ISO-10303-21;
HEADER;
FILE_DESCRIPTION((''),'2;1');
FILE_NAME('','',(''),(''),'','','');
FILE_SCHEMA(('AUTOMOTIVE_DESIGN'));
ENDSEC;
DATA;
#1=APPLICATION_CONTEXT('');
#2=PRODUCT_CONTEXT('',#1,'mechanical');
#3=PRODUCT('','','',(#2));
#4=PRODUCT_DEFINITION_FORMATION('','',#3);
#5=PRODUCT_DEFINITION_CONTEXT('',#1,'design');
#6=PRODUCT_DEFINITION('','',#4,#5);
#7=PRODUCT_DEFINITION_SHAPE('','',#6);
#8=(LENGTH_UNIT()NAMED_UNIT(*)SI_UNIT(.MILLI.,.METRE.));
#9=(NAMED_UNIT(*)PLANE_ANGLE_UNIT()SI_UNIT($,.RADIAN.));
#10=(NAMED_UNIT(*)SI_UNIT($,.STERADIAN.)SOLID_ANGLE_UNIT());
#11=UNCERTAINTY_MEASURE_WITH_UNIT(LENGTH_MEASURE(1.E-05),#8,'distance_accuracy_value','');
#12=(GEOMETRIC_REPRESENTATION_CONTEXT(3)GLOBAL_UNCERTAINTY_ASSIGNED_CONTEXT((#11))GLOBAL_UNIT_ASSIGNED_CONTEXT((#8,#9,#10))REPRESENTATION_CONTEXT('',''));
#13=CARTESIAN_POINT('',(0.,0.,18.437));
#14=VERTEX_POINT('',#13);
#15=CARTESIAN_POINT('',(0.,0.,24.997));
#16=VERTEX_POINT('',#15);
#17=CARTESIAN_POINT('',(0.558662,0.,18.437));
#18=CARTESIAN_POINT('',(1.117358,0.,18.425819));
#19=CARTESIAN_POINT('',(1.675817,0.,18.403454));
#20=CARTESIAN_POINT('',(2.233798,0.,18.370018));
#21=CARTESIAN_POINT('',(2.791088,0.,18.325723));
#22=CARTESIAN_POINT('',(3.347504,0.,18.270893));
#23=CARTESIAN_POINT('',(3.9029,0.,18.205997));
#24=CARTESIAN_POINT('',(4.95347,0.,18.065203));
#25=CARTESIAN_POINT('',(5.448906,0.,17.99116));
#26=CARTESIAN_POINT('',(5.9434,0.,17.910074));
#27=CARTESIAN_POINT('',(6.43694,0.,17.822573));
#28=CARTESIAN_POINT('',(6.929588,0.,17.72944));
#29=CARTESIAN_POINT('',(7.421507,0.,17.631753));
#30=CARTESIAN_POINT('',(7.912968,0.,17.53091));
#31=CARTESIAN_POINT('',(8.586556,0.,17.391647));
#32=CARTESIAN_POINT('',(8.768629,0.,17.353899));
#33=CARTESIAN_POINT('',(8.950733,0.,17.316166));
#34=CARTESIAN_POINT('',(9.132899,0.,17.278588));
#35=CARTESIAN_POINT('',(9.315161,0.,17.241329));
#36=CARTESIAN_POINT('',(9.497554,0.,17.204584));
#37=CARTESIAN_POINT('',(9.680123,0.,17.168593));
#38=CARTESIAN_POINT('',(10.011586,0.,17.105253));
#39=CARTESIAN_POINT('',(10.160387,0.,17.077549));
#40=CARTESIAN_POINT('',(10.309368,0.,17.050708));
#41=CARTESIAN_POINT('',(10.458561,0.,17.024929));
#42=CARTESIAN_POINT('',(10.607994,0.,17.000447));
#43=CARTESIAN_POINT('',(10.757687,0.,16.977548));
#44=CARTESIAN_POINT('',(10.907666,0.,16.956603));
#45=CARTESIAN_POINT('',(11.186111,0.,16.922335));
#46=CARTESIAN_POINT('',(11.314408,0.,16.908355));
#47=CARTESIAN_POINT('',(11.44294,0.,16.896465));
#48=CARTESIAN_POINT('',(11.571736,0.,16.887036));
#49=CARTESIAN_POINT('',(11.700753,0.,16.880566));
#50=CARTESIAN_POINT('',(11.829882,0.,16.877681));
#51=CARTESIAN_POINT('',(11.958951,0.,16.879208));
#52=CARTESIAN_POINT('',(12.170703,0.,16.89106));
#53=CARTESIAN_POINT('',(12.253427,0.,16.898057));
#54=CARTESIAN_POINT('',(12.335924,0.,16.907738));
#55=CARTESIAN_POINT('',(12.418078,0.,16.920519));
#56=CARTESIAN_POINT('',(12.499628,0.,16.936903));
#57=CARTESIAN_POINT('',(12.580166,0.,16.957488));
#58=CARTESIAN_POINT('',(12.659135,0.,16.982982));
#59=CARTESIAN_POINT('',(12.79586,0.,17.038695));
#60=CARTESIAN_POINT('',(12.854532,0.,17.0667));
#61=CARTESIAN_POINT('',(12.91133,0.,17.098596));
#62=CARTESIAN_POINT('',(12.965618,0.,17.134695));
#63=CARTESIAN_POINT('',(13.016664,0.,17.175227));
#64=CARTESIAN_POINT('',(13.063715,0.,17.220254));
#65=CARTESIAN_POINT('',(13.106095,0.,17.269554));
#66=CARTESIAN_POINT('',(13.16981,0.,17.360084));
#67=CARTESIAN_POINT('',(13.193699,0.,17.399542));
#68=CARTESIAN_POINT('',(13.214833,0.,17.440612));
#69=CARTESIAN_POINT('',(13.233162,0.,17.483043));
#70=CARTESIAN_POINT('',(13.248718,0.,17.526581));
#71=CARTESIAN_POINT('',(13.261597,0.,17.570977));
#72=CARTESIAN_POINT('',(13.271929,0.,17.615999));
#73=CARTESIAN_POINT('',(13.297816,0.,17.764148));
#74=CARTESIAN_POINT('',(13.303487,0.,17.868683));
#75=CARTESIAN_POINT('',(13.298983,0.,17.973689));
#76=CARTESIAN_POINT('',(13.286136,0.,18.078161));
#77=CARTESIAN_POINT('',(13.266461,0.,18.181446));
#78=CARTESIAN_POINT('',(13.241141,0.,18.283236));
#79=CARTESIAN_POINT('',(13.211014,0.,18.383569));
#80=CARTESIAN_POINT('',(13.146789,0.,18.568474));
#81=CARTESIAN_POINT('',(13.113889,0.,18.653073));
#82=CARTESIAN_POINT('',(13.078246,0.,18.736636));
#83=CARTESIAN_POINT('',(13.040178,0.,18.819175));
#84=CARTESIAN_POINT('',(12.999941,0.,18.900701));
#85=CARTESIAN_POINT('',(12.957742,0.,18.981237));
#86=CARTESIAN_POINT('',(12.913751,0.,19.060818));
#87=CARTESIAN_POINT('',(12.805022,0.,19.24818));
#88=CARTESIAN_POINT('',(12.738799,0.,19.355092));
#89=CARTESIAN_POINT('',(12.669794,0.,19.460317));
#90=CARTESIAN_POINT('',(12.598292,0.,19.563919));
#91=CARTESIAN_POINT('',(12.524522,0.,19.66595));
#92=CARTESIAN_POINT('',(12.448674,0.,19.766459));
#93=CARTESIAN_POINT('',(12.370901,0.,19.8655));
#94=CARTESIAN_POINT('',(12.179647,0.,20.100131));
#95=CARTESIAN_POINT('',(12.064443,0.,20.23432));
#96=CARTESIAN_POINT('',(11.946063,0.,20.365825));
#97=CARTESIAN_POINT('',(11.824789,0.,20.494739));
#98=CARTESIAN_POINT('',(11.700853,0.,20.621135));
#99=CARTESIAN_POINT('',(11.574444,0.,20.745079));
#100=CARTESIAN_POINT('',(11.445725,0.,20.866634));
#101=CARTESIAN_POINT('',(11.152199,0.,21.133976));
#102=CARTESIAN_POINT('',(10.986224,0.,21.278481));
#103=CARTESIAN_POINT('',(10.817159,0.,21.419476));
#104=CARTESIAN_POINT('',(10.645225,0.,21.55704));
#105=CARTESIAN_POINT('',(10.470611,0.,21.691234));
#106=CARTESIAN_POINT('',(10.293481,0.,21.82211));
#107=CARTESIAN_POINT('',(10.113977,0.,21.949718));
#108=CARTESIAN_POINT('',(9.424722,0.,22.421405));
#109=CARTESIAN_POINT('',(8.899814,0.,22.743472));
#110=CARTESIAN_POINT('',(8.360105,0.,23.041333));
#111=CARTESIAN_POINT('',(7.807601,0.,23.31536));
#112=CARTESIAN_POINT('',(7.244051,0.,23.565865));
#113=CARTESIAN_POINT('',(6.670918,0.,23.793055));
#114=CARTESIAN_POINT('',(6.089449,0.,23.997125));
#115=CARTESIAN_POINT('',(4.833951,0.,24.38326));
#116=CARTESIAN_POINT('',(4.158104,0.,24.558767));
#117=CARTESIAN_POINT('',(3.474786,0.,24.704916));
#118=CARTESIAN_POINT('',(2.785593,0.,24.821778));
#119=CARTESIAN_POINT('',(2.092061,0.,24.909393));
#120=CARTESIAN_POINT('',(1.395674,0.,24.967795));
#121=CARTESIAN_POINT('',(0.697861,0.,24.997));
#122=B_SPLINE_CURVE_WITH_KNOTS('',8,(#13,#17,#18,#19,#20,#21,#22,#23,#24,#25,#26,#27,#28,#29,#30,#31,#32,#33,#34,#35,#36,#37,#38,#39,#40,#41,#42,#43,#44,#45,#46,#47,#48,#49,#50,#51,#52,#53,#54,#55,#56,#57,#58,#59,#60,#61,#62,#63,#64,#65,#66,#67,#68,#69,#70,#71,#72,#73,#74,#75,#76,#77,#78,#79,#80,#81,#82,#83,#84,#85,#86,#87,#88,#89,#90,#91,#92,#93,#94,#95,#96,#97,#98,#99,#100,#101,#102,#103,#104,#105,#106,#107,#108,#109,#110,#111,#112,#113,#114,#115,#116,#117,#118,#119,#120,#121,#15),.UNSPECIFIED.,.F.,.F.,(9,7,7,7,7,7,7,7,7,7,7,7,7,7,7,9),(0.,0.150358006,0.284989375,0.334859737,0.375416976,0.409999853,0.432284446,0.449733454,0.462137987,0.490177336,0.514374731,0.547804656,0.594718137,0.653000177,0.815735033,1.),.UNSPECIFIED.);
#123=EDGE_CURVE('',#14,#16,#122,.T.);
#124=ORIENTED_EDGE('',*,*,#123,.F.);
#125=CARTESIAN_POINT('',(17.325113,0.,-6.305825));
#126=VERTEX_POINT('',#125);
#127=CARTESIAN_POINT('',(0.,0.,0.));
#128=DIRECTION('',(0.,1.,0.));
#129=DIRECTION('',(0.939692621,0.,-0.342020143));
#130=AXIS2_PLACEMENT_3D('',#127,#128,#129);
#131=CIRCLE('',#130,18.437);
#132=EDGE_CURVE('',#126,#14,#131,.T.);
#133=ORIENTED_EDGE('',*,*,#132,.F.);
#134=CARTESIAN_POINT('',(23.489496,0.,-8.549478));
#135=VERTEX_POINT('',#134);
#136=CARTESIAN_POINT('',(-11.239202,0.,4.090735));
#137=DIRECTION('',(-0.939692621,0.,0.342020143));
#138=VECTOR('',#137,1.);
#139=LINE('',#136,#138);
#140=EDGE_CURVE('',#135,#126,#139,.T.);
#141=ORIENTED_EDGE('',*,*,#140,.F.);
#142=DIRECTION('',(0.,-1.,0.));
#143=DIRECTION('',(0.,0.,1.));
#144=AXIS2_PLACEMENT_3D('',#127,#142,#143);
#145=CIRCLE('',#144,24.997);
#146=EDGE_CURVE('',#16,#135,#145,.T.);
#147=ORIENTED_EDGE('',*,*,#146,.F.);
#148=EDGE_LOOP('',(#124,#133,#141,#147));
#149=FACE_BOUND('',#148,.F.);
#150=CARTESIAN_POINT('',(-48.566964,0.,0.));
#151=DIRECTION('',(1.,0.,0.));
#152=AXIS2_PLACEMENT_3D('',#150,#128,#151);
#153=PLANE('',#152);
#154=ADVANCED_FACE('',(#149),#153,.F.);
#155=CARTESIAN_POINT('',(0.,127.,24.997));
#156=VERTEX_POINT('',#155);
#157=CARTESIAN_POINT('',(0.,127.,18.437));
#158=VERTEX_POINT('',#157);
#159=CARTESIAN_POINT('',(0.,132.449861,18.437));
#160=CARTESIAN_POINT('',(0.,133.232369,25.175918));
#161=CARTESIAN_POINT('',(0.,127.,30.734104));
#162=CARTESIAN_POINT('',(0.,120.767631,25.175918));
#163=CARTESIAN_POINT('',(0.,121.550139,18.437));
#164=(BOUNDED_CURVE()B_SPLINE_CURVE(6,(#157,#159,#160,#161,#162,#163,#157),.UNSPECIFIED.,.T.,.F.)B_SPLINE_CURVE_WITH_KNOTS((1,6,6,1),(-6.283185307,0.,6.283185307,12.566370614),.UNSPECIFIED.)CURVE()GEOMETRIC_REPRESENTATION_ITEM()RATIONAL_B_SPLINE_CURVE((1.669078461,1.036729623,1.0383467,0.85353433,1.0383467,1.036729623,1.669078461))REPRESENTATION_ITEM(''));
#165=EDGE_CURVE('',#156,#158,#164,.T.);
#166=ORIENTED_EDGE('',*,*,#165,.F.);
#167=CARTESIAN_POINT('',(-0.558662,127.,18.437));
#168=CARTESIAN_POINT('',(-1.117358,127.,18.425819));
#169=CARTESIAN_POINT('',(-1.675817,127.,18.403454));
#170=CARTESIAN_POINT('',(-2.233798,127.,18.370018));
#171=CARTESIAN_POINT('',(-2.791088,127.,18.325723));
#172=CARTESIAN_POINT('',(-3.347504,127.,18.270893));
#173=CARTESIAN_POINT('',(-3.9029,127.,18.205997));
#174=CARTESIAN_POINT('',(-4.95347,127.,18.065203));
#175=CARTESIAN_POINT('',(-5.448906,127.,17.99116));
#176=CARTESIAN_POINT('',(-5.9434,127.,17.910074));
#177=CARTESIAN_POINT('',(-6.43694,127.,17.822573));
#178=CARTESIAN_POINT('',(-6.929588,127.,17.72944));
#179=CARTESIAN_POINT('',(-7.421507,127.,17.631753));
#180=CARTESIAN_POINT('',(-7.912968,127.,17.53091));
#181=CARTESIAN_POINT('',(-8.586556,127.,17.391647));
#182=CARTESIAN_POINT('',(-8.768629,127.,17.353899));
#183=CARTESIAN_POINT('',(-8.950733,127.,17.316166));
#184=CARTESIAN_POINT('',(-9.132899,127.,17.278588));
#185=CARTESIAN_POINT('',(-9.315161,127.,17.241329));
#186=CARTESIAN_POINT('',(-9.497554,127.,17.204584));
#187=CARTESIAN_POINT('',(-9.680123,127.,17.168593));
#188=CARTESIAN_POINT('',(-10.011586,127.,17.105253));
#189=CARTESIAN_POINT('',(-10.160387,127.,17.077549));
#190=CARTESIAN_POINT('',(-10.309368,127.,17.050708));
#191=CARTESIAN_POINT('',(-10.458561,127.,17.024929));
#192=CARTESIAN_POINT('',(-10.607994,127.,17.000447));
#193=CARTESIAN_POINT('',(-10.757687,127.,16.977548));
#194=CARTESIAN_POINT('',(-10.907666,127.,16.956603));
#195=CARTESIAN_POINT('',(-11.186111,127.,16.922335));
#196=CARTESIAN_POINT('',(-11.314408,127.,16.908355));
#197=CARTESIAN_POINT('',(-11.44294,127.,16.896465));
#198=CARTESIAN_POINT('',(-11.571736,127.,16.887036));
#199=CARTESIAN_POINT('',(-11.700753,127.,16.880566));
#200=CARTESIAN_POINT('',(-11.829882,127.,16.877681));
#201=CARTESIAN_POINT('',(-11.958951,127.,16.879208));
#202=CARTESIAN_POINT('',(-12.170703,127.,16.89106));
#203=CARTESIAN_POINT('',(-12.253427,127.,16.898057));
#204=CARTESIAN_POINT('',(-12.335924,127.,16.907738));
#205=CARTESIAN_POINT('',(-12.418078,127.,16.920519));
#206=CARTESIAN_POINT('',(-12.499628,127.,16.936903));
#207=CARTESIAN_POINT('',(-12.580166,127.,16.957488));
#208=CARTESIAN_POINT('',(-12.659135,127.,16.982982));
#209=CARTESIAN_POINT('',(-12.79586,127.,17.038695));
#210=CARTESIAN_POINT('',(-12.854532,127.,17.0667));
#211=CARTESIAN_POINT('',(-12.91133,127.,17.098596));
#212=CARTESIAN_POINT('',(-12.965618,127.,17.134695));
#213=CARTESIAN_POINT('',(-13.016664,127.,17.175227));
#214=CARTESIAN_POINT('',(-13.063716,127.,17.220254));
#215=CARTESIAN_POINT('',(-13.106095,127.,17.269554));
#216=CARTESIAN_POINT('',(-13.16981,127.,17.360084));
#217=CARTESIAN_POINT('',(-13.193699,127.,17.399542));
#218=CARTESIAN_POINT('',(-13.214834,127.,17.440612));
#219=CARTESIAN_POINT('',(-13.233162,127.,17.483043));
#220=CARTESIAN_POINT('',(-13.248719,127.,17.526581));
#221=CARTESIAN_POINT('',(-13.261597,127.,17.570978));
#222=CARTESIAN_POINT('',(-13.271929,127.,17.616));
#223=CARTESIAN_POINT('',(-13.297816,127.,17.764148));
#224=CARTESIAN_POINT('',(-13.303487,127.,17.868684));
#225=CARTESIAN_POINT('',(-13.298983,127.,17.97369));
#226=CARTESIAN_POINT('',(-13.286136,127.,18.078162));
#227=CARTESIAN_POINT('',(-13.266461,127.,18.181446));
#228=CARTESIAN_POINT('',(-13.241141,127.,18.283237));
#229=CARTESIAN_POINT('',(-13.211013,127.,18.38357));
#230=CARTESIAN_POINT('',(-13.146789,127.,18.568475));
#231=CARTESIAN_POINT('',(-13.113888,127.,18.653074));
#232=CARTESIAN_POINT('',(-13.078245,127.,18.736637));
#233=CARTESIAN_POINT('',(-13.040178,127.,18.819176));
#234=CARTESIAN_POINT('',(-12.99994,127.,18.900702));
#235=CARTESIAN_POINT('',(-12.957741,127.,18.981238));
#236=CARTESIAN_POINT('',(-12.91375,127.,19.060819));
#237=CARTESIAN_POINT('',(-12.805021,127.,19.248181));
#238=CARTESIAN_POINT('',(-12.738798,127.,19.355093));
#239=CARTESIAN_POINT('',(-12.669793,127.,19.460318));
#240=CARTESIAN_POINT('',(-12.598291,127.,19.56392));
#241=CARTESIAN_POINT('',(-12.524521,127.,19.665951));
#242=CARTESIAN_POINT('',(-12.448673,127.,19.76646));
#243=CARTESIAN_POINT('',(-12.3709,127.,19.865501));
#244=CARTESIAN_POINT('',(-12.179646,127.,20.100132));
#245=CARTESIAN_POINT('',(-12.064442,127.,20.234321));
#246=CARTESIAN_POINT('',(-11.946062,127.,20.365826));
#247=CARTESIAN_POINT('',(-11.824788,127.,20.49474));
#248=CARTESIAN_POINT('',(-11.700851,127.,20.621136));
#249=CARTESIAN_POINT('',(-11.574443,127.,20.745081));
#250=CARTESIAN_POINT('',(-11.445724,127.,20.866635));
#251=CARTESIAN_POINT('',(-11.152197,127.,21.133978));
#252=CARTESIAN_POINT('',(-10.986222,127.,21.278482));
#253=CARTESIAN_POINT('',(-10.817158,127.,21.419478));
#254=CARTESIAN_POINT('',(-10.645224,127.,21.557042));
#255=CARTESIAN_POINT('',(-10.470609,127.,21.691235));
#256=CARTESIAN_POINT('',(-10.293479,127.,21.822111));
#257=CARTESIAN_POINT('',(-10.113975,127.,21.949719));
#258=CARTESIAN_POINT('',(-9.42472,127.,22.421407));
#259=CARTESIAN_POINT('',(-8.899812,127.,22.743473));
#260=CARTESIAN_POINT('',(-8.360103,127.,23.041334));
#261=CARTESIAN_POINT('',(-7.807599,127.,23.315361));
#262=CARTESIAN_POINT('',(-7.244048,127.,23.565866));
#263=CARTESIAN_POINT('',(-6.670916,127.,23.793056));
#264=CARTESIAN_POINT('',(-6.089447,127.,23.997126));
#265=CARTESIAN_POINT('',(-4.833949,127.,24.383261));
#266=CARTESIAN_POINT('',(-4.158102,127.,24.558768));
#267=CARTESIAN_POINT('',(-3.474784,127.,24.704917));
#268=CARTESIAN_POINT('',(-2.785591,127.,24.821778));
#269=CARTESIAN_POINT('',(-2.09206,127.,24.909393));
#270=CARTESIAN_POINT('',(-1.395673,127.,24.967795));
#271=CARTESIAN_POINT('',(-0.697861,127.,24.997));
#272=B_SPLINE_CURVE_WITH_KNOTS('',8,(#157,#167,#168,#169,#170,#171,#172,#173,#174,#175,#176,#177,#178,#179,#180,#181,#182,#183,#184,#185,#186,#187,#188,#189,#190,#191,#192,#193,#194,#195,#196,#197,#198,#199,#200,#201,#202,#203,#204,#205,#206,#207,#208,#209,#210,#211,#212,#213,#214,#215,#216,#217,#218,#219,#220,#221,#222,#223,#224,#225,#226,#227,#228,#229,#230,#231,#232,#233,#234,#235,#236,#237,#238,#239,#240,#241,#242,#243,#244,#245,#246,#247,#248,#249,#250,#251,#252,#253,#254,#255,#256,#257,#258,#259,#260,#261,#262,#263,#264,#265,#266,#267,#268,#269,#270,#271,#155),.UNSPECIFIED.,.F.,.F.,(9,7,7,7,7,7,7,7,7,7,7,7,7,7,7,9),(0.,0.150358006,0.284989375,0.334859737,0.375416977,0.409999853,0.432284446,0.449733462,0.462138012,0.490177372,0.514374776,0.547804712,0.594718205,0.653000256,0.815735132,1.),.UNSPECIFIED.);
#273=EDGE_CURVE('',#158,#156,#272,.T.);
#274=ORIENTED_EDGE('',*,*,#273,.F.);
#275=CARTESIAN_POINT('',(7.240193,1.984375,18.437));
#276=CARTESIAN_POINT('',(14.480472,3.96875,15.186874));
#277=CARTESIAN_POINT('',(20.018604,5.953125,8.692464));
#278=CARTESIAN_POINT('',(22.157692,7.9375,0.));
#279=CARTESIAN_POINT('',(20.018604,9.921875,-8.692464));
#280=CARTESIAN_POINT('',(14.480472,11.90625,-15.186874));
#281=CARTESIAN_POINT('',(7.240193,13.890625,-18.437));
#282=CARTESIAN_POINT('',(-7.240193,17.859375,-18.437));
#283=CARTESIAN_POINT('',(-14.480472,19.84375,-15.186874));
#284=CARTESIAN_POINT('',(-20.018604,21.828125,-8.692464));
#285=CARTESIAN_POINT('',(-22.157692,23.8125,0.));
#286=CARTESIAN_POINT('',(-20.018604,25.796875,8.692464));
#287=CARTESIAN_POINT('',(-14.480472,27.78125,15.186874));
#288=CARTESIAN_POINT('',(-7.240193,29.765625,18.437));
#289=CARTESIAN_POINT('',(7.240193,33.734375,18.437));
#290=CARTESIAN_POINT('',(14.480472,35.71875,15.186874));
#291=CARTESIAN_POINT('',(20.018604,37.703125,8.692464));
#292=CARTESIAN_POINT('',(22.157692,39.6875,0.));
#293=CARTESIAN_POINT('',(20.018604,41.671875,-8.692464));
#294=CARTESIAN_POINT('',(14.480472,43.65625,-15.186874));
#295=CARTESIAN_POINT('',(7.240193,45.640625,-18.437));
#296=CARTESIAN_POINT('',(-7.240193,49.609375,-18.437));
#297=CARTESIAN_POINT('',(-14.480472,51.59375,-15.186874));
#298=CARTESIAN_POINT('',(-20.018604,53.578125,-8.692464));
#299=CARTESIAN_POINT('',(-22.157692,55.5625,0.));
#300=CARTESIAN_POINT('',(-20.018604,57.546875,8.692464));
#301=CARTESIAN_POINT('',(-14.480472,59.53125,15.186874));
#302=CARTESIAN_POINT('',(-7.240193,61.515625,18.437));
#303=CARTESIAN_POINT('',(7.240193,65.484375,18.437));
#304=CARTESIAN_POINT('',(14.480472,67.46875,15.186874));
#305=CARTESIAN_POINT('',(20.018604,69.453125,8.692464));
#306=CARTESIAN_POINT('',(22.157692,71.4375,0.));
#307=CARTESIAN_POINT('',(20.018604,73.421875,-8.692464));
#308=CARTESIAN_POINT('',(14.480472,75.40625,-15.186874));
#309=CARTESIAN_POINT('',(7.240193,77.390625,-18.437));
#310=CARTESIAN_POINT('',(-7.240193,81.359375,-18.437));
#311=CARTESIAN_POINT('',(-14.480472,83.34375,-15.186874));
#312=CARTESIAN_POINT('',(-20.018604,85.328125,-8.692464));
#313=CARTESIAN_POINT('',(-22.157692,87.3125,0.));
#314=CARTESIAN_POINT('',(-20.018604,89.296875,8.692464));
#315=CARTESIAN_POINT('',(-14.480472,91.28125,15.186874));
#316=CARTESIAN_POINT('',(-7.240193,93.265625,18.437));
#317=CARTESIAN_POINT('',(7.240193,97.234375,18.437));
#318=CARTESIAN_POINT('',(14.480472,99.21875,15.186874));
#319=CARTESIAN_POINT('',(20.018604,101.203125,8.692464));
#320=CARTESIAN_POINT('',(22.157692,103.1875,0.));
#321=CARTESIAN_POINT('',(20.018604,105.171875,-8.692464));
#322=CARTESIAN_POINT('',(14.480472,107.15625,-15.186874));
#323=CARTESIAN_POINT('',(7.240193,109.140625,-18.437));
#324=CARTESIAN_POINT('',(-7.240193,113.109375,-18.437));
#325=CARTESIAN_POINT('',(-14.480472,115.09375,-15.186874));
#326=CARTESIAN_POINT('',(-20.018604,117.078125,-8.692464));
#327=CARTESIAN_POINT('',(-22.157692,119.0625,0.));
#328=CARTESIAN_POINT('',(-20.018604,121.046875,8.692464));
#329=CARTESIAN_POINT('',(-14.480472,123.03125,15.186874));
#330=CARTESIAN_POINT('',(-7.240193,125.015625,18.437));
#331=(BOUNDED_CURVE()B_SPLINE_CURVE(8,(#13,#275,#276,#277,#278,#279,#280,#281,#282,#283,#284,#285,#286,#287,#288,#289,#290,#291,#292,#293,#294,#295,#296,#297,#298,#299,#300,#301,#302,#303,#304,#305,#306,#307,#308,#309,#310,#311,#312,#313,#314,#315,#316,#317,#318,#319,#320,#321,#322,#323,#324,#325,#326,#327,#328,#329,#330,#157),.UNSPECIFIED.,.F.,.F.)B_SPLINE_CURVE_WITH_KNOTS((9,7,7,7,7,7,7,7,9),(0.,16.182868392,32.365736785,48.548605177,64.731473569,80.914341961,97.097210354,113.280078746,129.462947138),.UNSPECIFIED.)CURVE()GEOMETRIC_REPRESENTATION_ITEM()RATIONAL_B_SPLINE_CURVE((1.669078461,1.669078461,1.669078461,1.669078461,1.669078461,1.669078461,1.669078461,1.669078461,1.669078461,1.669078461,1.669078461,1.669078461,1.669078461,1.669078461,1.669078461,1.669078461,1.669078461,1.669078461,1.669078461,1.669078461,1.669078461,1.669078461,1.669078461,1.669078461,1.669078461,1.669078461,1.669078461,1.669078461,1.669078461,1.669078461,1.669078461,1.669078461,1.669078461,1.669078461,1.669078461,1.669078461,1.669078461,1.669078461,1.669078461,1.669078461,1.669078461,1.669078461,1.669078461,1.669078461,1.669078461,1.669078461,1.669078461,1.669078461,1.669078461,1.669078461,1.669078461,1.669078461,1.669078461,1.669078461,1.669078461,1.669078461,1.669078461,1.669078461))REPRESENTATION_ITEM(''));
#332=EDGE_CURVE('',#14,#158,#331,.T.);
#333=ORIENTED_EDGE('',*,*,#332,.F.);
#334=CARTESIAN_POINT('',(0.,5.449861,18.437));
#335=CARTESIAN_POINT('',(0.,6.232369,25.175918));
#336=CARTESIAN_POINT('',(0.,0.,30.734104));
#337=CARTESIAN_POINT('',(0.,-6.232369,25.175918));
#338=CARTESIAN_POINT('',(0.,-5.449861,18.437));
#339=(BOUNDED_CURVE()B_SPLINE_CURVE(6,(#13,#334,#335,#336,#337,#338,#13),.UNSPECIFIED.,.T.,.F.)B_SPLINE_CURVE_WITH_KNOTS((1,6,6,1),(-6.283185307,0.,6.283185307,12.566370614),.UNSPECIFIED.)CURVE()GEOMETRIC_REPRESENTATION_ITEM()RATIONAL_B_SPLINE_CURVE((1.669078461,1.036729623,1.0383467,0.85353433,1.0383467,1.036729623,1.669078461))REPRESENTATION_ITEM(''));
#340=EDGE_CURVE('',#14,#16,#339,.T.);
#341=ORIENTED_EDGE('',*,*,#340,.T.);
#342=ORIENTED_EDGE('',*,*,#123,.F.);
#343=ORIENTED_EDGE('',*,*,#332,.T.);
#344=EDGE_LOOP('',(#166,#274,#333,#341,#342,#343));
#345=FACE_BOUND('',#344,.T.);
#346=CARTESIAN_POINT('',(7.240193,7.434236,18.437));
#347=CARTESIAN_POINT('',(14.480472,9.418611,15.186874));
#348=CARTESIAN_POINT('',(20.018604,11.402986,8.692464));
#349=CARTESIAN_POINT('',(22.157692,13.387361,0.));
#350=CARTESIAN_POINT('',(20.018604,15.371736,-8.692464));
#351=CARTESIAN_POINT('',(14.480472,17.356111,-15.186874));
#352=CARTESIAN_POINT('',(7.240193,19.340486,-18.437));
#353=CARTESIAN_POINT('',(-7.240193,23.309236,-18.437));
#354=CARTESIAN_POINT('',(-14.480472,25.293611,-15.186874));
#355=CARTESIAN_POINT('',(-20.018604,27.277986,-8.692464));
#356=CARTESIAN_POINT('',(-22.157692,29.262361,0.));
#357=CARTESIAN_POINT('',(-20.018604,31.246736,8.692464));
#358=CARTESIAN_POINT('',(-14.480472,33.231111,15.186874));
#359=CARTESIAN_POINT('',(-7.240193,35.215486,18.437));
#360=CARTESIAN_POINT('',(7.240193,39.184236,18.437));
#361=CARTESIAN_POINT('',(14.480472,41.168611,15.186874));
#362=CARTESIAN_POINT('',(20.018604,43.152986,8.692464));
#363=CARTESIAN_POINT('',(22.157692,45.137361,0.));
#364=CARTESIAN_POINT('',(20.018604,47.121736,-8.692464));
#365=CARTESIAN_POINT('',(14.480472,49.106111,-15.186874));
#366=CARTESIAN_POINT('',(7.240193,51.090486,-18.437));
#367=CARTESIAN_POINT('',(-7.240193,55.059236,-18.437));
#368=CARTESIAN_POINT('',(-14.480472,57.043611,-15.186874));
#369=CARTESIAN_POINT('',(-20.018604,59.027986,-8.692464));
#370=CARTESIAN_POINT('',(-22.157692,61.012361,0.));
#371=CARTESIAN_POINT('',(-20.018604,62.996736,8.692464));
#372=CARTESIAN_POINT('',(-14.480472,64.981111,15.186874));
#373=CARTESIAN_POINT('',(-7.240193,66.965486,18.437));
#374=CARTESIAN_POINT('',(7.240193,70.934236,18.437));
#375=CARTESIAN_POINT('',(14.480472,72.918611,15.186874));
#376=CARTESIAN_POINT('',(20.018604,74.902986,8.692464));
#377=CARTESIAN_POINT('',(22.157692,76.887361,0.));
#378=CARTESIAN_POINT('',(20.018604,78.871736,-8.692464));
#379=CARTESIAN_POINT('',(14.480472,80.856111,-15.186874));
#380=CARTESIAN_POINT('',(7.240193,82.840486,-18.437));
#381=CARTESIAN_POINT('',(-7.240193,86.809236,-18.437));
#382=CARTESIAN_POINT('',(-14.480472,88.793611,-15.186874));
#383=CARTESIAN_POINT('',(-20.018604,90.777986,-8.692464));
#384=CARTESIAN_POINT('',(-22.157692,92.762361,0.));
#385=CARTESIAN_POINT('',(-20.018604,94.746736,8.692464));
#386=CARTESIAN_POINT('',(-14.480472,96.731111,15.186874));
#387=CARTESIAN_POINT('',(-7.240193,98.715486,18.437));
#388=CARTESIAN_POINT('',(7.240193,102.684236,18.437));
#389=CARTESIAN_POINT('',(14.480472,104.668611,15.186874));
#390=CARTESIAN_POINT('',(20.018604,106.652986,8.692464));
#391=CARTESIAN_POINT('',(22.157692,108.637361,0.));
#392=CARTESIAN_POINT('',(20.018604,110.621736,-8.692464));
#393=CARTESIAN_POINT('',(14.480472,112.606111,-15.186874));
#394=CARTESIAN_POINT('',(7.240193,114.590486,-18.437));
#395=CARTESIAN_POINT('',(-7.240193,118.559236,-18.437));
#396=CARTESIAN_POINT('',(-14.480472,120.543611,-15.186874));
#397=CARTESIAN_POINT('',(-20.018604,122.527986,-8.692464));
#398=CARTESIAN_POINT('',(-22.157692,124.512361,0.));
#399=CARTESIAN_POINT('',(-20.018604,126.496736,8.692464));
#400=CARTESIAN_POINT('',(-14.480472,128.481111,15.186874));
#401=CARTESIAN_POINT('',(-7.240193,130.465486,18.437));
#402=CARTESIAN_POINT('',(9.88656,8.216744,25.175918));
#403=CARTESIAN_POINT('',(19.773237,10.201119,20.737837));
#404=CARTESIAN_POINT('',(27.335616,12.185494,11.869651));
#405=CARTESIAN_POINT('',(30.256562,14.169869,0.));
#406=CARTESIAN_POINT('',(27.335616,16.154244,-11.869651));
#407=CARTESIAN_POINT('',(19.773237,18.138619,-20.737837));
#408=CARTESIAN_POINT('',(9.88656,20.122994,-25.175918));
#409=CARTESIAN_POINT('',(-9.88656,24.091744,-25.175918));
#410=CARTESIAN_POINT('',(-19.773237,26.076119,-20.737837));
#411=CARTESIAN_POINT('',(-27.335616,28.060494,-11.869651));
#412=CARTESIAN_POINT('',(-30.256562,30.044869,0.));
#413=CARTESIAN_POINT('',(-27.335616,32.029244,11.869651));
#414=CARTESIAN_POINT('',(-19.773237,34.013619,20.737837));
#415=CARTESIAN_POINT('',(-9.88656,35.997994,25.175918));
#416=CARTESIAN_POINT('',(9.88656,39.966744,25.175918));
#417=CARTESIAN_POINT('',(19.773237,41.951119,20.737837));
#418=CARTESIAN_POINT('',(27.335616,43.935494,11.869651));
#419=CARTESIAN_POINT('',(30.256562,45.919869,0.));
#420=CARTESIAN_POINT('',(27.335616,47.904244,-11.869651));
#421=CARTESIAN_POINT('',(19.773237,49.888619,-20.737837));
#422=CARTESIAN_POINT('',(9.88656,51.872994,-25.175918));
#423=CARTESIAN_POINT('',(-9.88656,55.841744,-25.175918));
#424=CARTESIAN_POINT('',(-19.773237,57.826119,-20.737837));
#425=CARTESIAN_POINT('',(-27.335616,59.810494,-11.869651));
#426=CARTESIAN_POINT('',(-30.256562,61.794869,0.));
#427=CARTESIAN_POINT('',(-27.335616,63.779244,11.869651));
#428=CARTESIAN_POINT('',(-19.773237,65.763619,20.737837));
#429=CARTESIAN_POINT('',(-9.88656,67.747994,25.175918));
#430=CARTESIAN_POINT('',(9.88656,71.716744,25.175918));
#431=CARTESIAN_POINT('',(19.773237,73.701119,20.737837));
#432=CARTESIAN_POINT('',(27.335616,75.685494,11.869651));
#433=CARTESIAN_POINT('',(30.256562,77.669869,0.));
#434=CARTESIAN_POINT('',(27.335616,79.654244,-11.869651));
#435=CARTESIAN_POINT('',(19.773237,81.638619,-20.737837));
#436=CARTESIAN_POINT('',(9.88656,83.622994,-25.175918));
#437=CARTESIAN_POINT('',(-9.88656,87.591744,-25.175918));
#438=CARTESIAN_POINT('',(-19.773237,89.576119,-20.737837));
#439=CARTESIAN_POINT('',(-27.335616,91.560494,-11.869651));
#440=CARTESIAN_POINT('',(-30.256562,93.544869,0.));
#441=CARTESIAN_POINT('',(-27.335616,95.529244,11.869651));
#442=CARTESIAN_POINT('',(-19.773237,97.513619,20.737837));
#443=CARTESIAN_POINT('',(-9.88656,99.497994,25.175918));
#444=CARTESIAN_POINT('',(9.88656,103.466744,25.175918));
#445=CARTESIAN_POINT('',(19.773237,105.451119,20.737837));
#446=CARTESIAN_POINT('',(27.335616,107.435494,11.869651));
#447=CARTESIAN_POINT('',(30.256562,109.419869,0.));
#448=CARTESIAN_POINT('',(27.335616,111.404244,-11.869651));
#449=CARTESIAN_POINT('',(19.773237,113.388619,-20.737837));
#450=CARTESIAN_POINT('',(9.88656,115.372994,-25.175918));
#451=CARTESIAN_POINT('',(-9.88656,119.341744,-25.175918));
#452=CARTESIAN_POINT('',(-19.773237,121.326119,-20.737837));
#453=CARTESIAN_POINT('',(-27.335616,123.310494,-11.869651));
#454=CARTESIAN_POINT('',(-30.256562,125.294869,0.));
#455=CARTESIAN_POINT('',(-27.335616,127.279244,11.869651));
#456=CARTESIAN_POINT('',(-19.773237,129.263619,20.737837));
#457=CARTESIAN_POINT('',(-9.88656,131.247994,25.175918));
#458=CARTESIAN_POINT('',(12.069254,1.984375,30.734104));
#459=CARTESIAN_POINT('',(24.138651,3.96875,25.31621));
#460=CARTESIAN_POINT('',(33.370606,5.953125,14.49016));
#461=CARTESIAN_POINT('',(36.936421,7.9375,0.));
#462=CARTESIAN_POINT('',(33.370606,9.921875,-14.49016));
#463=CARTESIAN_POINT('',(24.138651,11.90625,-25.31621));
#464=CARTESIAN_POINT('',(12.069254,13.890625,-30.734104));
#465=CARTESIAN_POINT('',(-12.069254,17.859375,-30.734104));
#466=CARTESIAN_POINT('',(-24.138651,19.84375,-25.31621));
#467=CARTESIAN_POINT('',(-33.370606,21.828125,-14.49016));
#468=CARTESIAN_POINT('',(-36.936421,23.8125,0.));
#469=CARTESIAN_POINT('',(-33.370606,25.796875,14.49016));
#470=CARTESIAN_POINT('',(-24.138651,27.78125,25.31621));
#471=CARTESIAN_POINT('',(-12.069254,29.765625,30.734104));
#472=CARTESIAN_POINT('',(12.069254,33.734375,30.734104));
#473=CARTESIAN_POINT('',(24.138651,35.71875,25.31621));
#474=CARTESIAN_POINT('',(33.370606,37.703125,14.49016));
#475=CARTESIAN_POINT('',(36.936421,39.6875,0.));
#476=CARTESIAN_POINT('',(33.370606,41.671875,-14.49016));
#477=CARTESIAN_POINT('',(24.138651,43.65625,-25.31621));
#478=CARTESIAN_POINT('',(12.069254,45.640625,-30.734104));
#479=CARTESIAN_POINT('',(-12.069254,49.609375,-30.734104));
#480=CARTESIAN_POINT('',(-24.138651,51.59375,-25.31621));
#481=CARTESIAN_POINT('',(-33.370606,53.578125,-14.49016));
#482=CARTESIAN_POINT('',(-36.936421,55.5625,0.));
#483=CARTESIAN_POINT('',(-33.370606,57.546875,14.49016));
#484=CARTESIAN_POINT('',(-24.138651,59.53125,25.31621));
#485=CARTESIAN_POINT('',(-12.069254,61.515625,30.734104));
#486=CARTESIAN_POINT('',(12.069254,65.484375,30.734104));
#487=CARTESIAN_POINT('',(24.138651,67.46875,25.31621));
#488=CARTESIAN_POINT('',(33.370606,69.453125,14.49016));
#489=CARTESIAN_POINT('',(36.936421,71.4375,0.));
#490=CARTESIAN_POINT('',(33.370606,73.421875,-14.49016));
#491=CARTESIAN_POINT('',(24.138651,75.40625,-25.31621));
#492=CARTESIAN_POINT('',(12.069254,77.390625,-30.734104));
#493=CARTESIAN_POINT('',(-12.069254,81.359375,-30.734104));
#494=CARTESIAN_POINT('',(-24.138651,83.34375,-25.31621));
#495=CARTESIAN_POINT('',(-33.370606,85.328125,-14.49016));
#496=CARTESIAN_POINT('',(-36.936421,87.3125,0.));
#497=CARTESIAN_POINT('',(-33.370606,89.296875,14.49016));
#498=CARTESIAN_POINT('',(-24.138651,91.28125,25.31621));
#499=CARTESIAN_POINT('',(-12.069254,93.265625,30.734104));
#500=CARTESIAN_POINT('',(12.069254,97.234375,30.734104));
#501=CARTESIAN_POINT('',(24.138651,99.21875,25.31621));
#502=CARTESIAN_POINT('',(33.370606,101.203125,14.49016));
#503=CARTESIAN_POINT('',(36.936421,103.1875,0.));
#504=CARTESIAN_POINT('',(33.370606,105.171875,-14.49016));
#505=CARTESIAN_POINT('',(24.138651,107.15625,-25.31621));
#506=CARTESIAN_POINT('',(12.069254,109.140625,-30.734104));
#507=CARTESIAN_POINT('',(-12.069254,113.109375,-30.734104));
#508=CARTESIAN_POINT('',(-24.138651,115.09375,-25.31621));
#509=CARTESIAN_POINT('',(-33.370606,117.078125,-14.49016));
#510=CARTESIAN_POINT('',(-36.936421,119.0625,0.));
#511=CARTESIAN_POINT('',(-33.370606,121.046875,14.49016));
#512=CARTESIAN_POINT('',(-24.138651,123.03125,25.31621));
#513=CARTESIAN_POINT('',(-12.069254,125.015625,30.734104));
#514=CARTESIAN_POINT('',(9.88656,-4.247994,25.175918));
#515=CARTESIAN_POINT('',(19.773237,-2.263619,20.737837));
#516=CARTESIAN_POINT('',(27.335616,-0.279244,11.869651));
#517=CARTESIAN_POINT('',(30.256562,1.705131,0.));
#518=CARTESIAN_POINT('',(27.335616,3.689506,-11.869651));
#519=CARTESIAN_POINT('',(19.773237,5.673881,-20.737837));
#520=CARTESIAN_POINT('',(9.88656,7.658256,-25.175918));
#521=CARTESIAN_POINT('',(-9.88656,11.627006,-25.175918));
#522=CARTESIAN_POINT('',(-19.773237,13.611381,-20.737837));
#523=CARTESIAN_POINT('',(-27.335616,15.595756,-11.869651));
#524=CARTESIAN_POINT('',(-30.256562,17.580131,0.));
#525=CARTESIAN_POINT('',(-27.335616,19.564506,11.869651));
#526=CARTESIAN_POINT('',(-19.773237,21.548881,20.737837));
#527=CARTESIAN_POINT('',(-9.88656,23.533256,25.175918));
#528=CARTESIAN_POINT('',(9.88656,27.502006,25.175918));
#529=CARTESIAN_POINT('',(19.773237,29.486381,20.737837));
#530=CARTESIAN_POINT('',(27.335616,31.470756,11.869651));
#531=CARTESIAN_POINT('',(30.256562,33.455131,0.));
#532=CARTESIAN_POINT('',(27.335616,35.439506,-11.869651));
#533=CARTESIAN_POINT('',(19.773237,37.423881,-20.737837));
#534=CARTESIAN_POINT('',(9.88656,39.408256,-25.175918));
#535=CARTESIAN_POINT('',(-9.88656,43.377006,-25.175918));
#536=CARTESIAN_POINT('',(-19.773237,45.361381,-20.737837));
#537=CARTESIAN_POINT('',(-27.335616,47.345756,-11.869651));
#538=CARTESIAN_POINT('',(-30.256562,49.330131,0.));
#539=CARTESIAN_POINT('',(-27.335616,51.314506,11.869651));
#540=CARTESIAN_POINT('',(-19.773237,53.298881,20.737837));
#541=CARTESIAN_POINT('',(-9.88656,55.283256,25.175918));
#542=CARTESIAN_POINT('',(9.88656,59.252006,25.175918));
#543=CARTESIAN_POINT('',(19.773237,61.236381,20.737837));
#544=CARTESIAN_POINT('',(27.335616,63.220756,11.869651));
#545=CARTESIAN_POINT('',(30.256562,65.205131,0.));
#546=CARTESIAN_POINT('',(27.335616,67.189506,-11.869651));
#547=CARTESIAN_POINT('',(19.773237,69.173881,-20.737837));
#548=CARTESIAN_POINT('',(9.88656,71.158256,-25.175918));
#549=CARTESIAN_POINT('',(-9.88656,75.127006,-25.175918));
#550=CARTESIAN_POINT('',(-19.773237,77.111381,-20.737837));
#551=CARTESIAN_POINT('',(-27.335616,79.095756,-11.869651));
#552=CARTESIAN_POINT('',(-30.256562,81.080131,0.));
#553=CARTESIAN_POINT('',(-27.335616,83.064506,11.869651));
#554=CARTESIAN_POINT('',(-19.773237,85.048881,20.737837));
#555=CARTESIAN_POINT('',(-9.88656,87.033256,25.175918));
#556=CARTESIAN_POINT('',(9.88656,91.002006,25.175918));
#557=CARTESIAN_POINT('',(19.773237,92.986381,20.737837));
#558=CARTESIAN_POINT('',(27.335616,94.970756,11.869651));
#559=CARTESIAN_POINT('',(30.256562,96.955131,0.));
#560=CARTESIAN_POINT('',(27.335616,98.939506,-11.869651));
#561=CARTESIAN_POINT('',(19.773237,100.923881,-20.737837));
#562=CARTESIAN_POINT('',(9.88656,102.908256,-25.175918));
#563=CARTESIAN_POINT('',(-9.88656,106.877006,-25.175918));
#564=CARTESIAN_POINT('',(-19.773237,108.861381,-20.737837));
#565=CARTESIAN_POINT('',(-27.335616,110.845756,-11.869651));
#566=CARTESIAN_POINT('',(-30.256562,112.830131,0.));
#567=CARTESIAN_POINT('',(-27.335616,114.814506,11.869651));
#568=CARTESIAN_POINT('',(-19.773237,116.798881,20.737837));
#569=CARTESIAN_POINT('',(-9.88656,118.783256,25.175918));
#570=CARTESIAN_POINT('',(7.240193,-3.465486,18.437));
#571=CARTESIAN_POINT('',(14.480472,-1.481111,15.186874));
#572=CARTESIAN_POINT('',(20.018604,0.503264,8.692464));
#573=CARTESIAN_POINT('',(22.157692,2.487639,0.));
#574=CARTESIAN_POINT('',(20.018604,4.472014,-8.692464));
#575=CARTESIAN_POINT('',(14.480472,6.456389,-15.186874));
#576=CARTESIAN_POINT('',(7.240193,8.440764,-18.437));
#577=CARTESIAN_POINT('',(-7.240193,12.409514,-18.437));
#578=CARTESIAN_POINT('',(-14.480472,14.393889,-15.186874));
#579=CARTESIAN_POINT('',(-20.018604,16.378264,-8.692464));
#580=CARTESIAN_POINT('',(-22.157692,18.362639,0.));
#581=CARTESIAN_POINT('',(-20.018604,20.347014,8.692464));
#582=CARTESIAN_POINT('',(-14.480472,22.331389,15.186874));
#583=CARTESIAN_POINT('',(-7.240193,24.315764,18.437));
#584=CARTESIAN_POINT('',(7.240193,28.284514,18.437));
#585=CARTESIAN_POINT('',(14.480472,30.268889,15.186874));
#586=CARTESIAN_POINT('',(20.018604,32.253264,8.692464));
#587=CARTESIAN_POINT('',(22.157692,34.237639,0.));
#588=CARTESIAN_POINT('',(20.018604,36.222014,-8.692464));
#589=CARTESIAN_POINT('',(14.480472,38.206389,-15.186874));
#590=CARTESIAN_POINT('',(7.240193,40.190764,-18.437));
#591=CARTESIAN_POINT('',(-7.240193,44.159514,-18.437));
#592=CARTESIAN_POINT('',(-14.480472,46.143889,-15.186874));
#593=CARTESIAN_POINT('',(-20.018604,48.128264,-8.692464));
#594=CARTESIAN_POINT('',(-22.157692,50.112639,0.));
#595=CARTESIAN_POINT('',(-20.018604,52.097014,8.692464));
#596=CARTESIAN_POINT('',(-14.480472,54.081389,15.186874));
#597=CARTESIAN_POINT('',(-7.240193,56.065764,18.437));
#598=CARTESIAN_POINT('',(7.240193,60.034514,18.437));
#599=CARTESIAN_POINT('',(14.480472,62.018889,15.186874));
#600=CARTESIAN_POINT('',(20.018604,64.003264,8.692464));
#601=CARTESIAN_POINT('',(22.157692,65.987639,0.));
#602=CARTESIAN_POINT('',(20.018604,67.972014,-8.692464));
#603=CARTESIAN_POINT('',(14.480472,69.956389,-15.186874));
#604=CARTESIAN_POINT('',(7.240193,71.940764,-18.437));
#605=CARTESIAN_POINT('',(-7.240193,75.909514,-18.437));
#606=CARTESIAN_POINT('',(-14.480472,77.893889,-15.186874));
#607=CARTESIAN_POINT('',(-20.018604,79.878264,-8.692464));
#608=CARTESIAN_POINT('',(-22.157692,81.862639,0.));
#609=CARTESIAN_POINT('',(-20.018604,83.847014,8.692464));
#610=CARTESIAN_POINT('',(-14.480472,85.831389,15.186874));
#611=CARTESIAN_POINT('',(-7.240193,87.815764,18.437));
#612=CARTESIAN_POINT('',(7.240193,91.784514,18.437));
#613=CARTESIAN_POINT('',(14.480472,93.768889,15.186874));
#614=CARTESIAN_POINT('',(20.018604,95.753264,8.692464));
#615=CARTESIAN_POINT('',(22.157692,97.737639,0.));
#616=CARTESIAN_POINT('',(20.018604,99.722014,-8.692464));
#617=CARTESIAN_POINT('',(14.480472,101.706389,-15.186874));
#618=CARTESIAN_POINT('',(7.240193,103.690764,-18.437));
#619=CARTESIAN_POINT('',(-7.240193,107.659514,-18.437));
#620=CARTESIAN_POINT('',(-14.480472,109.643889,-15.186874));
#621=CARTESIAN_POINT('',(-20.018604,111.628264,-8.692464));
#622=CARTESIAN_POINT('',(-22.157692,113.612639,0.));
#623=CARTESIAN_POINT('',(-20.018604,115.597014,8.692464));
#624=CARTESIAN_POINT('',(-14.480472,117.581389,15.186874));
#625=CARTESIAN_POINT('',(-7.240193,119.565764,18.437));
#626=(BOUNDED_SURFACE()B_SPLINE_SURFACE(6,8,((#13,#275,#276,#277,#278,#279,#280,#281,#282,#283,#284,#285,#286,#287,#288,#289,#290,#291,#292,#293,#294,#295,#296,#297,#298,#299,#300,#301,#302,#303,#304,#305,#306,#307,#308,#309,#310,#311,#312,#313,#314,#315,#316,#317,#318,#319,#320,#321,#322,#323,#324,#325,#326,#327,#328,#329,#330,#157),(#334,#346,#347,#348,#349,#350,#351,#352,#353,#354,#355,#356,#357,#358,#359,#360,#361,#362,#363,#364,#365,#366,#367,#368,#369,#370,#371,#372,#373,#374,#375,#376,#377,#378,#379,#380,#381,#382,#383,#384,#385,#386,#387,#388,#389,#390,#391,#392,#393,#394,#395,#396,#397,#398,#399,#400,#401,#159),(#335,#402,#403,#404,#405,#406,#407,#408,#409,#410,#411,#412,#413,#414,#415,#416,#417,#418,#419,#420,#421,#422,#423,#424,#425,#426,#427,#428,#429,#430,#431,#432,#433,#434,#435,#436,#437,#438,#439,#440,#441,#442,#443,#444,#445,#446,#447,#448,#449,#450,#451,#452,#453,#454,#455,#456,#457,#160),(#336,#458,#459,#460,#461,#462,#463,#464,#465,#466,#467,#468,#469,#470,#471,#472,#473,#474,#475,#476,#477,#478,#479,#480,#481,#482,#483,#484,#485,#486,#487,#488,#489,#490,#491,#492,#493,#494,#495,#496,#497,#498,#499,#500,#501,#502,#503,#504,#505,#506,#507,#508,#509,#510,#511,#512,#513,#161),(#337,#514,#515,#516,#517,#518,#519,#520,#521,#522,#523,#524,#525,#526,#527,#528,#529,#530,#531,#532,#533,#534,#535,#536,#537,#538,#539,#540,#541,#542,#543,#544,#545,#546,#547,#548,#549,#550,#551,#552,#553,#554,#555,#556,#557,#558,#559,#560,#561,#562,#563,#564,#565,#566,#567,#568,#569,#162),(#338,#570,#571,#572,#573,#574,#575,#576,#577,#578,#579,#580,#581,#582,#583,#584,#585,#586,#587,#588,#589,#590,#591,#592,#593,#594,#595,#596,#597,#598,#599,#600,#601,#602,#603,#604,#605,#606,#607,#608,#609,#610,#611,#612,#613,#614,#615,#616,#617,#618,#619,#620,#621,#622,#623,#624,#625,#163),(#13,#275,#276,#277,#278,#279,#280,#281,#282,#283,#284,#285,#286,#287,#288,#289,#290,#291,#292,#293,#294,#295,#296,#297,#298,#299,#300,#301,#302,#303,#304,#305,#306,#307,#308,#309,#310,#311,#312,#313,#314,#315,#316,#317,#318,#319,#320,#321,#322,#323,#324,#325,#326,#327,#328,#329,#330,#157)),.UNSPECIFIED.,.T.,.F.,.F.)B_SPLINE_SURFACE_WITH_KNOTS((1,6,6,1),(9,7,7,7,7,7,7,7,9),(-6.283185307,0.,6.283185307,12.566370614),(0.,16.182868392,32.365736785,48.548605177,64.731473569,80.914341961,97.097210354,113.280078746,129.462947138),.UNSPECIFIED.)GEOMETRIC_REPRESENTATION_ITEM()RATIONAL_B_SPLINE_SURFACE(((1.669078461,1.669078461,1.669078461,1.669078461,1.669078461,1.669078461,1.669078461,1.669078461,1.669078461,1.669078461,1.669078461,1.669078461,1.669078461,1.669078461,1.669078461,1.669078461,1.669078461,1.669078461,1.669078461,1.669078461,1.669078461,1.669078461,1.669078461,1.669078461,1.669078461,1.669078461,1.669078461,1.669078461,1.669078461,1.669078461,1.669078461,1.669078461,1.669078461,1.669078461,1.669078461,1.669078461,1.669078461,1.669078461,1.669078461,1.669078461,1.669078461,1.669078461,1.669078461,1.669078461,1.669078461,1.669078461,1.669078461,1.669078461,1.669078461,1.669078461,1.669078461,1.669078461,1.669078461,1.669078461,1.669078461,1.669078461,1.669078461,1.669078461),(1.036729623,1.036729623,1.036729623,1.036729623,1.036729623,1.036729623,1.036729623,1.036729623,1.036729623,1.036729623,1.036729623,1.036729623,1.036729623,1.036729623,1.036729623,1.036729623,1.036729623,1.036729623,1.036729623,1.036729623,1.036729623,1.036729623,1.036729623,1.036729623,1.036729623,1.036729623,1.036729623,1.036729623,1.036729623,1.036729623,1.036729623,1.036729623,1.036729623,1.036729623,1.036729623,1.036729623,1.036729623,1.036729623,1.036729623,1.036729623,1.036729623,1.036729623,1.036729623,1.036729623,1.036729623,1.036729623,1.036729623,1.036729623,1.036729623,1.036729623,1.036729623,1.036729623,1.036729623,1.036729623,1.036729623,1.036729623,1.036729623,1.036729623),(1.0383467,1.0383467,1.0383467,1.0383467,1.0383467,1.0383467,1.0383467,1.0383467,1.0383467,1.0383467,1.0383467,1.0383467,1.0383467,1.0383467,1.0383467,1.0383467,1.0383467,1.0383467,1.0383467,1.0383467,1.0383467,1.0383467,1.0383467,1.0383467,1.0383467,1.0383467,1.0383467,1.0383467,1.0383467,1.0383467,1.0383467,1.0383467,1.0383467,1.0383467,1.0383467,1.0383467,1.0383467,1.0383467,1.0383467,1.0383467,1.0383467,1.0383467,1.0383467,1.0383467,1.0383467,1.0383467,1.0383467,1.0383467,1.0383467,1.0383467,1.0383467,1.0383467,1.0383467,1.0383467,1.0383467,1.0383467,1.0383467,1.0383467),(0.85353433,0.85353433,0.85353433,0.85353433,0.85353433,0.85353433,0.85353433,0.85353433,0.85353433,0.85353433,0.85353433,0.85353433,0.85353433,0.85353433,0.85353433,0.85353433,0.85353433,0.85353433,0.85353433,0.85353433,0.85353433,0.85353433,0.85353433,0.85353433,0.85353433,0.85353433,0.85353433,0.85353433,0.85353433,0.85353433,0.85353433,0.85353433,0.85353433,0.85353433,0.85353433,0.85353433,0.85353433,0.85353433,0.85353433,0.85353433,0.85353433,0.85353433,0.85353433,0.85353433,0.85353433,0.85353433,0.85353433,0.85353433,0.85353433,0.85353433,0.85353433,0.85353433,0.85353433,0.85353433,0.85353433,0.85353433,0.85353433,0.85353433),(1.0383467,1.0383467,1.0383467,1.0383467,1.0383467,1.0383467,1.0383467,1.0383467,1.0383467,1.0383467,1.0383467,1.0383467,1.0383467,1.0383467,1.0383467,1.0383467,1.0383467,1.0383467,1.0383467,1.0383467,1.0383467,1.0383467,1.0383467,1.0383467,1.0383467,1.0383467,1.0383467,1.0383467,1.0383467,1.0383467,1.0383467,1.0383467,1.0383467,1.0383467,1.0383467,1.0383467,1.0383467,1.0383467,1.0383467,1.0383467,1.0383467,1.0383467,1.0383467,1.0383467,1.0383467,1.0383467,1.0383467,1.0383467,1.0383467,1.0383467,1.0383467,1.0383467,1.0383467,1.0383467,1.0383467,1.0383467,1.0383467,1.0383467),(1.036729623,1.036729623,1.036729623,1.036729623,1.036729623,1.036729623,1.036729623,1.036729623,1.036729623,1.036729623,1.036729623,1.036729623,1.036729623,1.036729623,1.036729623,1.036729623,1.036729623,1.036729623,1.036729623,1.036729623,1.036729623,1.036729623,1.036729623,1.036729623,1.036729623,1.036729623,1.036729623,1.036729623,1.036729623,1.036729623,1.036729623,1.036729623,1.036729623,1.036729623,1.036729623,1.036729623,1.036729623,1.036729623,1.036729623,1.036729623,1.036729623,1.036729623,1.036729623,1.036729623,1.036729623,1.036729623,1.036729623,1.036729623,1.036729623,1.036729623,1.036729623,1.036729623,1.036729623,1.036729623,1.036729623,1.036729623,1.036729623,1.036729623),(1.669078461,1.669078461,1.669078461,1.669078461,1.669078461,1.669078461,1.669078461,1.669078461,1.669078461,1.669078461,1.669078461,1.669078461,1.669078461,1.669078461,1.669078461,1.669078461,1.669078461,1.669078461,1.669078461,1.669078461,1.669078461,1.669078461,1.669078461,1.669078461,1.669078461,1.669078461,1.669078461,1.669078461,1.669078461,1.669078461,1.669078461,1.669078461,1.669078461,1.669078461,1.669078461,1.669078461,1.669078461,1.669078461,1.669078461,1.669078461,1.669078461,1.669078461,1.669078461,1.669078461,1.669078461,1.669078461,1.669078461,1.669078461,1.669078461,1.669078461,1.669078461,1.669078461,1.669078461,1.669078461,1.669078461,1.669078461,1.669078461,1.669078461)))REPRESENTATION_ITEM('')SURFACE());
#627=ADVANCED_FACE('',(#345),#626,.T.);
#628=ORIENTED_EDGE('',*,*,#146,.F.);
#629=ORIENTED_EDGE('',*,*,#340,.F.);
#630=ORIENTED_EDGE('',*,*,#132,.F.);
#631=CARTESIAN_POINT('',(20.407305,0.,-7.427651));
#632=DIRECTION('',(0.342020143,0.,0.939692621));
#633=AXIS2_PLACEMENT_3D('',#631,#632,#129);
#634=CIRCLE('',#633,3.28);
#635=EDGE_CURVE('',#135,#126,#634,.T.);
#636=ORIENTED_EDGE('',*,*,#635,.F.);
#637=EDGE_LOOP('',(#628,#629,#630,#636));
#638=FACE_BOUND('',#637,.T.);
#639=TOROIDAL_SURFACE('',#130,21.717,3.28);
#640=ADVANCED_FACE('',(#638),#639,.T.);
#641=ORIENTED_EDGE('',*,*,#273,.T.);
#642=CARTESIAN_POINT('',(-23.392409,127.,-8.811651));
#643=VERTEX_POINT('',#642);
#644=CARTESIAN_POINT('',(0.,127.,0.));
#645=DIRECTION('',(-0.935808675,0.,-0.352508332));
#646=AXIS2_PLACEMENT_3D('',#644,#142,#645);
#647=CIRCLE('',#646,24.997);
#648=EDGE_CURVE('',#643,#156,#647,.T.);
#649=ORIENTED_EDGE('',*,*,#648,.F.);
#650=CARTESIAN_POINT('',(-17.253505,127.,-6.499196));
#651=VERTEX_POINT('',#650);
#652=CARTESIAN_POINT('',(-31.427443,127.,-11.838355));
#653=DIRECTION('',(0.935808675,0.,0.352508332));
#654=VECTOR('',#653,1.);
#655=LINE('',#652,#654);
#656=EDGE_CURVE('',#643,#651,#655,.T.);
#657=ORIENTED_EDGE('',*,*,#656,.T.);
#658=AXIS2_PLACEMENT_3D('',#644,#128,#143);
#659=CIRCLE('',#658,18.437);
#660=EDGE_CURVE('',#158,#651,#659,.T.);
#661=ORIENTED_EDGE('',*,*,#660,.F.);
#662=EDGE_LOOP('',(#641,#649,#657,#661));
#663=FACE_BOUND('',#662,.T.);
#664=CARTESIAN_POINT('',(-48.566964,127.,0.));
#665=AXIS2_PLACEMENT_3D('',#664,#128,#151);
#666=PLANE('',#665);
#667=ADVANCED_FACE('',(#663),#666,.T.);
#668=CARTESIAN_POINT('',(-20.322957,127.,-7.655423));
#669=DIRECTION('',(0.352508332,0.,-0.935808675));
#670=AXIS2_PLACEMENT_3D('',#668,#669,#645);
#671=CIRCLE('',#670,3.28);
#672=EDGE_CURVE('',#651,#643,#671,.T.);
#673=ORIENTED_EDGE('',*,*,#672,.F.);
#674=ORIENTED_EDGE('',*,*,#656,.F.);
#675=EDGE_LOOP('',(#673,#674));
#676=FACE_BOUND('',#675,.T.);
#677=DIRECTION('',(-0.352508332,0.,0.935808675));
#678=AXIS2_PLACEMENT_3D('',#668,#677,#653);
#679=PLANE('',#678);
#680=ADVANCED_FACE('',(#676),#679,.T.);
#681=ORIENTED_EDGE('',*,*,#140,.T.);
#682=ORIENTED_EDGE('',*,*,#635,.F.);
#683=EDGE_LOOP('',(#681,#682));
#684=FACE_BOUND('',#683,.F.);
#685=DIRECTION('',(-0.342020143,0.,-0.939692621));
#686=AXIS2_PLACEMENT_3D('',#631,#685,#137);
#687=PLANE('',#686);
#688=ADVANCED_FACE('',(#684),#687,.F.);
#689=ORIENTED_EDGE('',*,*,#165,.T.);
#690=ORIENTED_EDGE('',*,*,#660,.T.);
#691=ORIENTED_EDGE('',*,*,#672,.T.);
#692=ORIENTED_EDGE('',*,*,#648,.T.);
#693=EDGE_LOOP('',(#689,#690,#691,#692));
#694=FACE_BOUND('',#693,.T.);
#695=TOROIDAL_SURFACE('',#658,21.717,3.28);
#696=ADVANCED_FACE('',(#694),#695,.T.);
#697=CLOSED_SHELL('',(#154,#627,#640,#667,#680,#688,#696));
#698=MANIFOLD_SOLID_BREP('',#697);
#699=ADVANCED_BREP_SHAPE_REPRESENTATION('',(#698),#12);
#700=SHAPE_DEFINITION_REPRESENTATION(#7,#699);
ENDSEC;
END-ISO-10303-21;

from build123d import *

# Parameters (mm, degrees)
SWEEP7_PITCH            = 31.75
SWEEP7_HEIGHT           = 127
SWEEP7_RADIUS           = 21.717
SKETCH5_R               = 3.28
SKETCH5_5_R             = 3.28
SKETCH7_R               = 3.28
CUT_W                   = 103.551068572
CUT_H                   = 23.082513744
CUT_H_2                 = 30.073571719
CUT_EXTRUDE3_DEPTH      = 25.9970001
CUT_EXTRUDE3_DEPTH_BACK = 25.9970001


with BuildPart() as part:
    # Sweep7: sweep along a helix
    with BuildLine() as sweep7_path:
        Helix(SWEEP7_PITCH, SWEEP7_HEIGHT, SWEEP7_RADIUS, center=(0, 0, 0), direction=(0, 1, 0))
    # Sketch5 → Sweep7 (sweep)
    with BuildSketch(Plane(origin=(0, 0, 0), x_dir=(0, 0, -1), z_dir=(1, 0, 0))):
        with Locations((-21.717, 0)):
            Circle(SKETCH5_R)
    sweep(path=sweep7_path.line, is_frenet=True)

    # Sweep8: sweep along a path in Sketch3
    with BuildLine(Plane(origin=(0, 0, 0), x_dir=(1, 0, 0), z_dir=(0, 1, 0))) as sweep8_path:
        ThreePointArc((23.229201586, 8.454737943), (-20.249438535, 14.178809507), (0, -24.72))
    # Sketch5<5> → Sweep8 (sweep)
    with BuildSketch(Plane(origin=(0, 0, 0), x_dir=(0, 0, -1), z_dir=(1, 0, 0))):
        with Locations((-21.717, 0)):
            Circle(SKETCH5_5_R)
    sweep(path=sweep8_path.line)

    # Sweep9: sweep along a path in Sketch6
    with BuildLine(Plane(origin=(0, 127, 0), x_dir=(1, 0, 0), z_dir=(0, 1, 0))) as sweep9_path:
        ThreePointArc((0, -21.717), (17.858904221, 12.356683578), (-20.322956992, 7.655423443))
    # Sketch7 → Sweep9 (sweep)
    with BuildSketch(Plane(origin=(0, 0, 0), x_dir=(0, 0, -1), z_dir=(1, 0, 0))):
        with Locations((-21.717, 127)):
            Circle(SKETCH7_R)
    sweep(path=sweep9_path.line)

    # Cut → Cut-Extrude3 (cut, two sides)
    with BuildSketch(Plane.XY) as cut_extrude3_sk:
        with Locations((3.208570768, 138.541256872)):
            Rectangle(CUT_W, CUT_H)
        with Locations((3.208570768, -15.03678586)):
            Rectangle(CUT_W, CUT_H_2)
    extrude(amount=CUT_EXTRUDE3_DEPTH, mode=Mode.SUBTRACT)
    extrude(cut_extrude3_sk.sketch, amount=-CUT_EXTRUDE3_DEPTH_BACK, mode=Mode.SUBTRACT)


solid = part.part
